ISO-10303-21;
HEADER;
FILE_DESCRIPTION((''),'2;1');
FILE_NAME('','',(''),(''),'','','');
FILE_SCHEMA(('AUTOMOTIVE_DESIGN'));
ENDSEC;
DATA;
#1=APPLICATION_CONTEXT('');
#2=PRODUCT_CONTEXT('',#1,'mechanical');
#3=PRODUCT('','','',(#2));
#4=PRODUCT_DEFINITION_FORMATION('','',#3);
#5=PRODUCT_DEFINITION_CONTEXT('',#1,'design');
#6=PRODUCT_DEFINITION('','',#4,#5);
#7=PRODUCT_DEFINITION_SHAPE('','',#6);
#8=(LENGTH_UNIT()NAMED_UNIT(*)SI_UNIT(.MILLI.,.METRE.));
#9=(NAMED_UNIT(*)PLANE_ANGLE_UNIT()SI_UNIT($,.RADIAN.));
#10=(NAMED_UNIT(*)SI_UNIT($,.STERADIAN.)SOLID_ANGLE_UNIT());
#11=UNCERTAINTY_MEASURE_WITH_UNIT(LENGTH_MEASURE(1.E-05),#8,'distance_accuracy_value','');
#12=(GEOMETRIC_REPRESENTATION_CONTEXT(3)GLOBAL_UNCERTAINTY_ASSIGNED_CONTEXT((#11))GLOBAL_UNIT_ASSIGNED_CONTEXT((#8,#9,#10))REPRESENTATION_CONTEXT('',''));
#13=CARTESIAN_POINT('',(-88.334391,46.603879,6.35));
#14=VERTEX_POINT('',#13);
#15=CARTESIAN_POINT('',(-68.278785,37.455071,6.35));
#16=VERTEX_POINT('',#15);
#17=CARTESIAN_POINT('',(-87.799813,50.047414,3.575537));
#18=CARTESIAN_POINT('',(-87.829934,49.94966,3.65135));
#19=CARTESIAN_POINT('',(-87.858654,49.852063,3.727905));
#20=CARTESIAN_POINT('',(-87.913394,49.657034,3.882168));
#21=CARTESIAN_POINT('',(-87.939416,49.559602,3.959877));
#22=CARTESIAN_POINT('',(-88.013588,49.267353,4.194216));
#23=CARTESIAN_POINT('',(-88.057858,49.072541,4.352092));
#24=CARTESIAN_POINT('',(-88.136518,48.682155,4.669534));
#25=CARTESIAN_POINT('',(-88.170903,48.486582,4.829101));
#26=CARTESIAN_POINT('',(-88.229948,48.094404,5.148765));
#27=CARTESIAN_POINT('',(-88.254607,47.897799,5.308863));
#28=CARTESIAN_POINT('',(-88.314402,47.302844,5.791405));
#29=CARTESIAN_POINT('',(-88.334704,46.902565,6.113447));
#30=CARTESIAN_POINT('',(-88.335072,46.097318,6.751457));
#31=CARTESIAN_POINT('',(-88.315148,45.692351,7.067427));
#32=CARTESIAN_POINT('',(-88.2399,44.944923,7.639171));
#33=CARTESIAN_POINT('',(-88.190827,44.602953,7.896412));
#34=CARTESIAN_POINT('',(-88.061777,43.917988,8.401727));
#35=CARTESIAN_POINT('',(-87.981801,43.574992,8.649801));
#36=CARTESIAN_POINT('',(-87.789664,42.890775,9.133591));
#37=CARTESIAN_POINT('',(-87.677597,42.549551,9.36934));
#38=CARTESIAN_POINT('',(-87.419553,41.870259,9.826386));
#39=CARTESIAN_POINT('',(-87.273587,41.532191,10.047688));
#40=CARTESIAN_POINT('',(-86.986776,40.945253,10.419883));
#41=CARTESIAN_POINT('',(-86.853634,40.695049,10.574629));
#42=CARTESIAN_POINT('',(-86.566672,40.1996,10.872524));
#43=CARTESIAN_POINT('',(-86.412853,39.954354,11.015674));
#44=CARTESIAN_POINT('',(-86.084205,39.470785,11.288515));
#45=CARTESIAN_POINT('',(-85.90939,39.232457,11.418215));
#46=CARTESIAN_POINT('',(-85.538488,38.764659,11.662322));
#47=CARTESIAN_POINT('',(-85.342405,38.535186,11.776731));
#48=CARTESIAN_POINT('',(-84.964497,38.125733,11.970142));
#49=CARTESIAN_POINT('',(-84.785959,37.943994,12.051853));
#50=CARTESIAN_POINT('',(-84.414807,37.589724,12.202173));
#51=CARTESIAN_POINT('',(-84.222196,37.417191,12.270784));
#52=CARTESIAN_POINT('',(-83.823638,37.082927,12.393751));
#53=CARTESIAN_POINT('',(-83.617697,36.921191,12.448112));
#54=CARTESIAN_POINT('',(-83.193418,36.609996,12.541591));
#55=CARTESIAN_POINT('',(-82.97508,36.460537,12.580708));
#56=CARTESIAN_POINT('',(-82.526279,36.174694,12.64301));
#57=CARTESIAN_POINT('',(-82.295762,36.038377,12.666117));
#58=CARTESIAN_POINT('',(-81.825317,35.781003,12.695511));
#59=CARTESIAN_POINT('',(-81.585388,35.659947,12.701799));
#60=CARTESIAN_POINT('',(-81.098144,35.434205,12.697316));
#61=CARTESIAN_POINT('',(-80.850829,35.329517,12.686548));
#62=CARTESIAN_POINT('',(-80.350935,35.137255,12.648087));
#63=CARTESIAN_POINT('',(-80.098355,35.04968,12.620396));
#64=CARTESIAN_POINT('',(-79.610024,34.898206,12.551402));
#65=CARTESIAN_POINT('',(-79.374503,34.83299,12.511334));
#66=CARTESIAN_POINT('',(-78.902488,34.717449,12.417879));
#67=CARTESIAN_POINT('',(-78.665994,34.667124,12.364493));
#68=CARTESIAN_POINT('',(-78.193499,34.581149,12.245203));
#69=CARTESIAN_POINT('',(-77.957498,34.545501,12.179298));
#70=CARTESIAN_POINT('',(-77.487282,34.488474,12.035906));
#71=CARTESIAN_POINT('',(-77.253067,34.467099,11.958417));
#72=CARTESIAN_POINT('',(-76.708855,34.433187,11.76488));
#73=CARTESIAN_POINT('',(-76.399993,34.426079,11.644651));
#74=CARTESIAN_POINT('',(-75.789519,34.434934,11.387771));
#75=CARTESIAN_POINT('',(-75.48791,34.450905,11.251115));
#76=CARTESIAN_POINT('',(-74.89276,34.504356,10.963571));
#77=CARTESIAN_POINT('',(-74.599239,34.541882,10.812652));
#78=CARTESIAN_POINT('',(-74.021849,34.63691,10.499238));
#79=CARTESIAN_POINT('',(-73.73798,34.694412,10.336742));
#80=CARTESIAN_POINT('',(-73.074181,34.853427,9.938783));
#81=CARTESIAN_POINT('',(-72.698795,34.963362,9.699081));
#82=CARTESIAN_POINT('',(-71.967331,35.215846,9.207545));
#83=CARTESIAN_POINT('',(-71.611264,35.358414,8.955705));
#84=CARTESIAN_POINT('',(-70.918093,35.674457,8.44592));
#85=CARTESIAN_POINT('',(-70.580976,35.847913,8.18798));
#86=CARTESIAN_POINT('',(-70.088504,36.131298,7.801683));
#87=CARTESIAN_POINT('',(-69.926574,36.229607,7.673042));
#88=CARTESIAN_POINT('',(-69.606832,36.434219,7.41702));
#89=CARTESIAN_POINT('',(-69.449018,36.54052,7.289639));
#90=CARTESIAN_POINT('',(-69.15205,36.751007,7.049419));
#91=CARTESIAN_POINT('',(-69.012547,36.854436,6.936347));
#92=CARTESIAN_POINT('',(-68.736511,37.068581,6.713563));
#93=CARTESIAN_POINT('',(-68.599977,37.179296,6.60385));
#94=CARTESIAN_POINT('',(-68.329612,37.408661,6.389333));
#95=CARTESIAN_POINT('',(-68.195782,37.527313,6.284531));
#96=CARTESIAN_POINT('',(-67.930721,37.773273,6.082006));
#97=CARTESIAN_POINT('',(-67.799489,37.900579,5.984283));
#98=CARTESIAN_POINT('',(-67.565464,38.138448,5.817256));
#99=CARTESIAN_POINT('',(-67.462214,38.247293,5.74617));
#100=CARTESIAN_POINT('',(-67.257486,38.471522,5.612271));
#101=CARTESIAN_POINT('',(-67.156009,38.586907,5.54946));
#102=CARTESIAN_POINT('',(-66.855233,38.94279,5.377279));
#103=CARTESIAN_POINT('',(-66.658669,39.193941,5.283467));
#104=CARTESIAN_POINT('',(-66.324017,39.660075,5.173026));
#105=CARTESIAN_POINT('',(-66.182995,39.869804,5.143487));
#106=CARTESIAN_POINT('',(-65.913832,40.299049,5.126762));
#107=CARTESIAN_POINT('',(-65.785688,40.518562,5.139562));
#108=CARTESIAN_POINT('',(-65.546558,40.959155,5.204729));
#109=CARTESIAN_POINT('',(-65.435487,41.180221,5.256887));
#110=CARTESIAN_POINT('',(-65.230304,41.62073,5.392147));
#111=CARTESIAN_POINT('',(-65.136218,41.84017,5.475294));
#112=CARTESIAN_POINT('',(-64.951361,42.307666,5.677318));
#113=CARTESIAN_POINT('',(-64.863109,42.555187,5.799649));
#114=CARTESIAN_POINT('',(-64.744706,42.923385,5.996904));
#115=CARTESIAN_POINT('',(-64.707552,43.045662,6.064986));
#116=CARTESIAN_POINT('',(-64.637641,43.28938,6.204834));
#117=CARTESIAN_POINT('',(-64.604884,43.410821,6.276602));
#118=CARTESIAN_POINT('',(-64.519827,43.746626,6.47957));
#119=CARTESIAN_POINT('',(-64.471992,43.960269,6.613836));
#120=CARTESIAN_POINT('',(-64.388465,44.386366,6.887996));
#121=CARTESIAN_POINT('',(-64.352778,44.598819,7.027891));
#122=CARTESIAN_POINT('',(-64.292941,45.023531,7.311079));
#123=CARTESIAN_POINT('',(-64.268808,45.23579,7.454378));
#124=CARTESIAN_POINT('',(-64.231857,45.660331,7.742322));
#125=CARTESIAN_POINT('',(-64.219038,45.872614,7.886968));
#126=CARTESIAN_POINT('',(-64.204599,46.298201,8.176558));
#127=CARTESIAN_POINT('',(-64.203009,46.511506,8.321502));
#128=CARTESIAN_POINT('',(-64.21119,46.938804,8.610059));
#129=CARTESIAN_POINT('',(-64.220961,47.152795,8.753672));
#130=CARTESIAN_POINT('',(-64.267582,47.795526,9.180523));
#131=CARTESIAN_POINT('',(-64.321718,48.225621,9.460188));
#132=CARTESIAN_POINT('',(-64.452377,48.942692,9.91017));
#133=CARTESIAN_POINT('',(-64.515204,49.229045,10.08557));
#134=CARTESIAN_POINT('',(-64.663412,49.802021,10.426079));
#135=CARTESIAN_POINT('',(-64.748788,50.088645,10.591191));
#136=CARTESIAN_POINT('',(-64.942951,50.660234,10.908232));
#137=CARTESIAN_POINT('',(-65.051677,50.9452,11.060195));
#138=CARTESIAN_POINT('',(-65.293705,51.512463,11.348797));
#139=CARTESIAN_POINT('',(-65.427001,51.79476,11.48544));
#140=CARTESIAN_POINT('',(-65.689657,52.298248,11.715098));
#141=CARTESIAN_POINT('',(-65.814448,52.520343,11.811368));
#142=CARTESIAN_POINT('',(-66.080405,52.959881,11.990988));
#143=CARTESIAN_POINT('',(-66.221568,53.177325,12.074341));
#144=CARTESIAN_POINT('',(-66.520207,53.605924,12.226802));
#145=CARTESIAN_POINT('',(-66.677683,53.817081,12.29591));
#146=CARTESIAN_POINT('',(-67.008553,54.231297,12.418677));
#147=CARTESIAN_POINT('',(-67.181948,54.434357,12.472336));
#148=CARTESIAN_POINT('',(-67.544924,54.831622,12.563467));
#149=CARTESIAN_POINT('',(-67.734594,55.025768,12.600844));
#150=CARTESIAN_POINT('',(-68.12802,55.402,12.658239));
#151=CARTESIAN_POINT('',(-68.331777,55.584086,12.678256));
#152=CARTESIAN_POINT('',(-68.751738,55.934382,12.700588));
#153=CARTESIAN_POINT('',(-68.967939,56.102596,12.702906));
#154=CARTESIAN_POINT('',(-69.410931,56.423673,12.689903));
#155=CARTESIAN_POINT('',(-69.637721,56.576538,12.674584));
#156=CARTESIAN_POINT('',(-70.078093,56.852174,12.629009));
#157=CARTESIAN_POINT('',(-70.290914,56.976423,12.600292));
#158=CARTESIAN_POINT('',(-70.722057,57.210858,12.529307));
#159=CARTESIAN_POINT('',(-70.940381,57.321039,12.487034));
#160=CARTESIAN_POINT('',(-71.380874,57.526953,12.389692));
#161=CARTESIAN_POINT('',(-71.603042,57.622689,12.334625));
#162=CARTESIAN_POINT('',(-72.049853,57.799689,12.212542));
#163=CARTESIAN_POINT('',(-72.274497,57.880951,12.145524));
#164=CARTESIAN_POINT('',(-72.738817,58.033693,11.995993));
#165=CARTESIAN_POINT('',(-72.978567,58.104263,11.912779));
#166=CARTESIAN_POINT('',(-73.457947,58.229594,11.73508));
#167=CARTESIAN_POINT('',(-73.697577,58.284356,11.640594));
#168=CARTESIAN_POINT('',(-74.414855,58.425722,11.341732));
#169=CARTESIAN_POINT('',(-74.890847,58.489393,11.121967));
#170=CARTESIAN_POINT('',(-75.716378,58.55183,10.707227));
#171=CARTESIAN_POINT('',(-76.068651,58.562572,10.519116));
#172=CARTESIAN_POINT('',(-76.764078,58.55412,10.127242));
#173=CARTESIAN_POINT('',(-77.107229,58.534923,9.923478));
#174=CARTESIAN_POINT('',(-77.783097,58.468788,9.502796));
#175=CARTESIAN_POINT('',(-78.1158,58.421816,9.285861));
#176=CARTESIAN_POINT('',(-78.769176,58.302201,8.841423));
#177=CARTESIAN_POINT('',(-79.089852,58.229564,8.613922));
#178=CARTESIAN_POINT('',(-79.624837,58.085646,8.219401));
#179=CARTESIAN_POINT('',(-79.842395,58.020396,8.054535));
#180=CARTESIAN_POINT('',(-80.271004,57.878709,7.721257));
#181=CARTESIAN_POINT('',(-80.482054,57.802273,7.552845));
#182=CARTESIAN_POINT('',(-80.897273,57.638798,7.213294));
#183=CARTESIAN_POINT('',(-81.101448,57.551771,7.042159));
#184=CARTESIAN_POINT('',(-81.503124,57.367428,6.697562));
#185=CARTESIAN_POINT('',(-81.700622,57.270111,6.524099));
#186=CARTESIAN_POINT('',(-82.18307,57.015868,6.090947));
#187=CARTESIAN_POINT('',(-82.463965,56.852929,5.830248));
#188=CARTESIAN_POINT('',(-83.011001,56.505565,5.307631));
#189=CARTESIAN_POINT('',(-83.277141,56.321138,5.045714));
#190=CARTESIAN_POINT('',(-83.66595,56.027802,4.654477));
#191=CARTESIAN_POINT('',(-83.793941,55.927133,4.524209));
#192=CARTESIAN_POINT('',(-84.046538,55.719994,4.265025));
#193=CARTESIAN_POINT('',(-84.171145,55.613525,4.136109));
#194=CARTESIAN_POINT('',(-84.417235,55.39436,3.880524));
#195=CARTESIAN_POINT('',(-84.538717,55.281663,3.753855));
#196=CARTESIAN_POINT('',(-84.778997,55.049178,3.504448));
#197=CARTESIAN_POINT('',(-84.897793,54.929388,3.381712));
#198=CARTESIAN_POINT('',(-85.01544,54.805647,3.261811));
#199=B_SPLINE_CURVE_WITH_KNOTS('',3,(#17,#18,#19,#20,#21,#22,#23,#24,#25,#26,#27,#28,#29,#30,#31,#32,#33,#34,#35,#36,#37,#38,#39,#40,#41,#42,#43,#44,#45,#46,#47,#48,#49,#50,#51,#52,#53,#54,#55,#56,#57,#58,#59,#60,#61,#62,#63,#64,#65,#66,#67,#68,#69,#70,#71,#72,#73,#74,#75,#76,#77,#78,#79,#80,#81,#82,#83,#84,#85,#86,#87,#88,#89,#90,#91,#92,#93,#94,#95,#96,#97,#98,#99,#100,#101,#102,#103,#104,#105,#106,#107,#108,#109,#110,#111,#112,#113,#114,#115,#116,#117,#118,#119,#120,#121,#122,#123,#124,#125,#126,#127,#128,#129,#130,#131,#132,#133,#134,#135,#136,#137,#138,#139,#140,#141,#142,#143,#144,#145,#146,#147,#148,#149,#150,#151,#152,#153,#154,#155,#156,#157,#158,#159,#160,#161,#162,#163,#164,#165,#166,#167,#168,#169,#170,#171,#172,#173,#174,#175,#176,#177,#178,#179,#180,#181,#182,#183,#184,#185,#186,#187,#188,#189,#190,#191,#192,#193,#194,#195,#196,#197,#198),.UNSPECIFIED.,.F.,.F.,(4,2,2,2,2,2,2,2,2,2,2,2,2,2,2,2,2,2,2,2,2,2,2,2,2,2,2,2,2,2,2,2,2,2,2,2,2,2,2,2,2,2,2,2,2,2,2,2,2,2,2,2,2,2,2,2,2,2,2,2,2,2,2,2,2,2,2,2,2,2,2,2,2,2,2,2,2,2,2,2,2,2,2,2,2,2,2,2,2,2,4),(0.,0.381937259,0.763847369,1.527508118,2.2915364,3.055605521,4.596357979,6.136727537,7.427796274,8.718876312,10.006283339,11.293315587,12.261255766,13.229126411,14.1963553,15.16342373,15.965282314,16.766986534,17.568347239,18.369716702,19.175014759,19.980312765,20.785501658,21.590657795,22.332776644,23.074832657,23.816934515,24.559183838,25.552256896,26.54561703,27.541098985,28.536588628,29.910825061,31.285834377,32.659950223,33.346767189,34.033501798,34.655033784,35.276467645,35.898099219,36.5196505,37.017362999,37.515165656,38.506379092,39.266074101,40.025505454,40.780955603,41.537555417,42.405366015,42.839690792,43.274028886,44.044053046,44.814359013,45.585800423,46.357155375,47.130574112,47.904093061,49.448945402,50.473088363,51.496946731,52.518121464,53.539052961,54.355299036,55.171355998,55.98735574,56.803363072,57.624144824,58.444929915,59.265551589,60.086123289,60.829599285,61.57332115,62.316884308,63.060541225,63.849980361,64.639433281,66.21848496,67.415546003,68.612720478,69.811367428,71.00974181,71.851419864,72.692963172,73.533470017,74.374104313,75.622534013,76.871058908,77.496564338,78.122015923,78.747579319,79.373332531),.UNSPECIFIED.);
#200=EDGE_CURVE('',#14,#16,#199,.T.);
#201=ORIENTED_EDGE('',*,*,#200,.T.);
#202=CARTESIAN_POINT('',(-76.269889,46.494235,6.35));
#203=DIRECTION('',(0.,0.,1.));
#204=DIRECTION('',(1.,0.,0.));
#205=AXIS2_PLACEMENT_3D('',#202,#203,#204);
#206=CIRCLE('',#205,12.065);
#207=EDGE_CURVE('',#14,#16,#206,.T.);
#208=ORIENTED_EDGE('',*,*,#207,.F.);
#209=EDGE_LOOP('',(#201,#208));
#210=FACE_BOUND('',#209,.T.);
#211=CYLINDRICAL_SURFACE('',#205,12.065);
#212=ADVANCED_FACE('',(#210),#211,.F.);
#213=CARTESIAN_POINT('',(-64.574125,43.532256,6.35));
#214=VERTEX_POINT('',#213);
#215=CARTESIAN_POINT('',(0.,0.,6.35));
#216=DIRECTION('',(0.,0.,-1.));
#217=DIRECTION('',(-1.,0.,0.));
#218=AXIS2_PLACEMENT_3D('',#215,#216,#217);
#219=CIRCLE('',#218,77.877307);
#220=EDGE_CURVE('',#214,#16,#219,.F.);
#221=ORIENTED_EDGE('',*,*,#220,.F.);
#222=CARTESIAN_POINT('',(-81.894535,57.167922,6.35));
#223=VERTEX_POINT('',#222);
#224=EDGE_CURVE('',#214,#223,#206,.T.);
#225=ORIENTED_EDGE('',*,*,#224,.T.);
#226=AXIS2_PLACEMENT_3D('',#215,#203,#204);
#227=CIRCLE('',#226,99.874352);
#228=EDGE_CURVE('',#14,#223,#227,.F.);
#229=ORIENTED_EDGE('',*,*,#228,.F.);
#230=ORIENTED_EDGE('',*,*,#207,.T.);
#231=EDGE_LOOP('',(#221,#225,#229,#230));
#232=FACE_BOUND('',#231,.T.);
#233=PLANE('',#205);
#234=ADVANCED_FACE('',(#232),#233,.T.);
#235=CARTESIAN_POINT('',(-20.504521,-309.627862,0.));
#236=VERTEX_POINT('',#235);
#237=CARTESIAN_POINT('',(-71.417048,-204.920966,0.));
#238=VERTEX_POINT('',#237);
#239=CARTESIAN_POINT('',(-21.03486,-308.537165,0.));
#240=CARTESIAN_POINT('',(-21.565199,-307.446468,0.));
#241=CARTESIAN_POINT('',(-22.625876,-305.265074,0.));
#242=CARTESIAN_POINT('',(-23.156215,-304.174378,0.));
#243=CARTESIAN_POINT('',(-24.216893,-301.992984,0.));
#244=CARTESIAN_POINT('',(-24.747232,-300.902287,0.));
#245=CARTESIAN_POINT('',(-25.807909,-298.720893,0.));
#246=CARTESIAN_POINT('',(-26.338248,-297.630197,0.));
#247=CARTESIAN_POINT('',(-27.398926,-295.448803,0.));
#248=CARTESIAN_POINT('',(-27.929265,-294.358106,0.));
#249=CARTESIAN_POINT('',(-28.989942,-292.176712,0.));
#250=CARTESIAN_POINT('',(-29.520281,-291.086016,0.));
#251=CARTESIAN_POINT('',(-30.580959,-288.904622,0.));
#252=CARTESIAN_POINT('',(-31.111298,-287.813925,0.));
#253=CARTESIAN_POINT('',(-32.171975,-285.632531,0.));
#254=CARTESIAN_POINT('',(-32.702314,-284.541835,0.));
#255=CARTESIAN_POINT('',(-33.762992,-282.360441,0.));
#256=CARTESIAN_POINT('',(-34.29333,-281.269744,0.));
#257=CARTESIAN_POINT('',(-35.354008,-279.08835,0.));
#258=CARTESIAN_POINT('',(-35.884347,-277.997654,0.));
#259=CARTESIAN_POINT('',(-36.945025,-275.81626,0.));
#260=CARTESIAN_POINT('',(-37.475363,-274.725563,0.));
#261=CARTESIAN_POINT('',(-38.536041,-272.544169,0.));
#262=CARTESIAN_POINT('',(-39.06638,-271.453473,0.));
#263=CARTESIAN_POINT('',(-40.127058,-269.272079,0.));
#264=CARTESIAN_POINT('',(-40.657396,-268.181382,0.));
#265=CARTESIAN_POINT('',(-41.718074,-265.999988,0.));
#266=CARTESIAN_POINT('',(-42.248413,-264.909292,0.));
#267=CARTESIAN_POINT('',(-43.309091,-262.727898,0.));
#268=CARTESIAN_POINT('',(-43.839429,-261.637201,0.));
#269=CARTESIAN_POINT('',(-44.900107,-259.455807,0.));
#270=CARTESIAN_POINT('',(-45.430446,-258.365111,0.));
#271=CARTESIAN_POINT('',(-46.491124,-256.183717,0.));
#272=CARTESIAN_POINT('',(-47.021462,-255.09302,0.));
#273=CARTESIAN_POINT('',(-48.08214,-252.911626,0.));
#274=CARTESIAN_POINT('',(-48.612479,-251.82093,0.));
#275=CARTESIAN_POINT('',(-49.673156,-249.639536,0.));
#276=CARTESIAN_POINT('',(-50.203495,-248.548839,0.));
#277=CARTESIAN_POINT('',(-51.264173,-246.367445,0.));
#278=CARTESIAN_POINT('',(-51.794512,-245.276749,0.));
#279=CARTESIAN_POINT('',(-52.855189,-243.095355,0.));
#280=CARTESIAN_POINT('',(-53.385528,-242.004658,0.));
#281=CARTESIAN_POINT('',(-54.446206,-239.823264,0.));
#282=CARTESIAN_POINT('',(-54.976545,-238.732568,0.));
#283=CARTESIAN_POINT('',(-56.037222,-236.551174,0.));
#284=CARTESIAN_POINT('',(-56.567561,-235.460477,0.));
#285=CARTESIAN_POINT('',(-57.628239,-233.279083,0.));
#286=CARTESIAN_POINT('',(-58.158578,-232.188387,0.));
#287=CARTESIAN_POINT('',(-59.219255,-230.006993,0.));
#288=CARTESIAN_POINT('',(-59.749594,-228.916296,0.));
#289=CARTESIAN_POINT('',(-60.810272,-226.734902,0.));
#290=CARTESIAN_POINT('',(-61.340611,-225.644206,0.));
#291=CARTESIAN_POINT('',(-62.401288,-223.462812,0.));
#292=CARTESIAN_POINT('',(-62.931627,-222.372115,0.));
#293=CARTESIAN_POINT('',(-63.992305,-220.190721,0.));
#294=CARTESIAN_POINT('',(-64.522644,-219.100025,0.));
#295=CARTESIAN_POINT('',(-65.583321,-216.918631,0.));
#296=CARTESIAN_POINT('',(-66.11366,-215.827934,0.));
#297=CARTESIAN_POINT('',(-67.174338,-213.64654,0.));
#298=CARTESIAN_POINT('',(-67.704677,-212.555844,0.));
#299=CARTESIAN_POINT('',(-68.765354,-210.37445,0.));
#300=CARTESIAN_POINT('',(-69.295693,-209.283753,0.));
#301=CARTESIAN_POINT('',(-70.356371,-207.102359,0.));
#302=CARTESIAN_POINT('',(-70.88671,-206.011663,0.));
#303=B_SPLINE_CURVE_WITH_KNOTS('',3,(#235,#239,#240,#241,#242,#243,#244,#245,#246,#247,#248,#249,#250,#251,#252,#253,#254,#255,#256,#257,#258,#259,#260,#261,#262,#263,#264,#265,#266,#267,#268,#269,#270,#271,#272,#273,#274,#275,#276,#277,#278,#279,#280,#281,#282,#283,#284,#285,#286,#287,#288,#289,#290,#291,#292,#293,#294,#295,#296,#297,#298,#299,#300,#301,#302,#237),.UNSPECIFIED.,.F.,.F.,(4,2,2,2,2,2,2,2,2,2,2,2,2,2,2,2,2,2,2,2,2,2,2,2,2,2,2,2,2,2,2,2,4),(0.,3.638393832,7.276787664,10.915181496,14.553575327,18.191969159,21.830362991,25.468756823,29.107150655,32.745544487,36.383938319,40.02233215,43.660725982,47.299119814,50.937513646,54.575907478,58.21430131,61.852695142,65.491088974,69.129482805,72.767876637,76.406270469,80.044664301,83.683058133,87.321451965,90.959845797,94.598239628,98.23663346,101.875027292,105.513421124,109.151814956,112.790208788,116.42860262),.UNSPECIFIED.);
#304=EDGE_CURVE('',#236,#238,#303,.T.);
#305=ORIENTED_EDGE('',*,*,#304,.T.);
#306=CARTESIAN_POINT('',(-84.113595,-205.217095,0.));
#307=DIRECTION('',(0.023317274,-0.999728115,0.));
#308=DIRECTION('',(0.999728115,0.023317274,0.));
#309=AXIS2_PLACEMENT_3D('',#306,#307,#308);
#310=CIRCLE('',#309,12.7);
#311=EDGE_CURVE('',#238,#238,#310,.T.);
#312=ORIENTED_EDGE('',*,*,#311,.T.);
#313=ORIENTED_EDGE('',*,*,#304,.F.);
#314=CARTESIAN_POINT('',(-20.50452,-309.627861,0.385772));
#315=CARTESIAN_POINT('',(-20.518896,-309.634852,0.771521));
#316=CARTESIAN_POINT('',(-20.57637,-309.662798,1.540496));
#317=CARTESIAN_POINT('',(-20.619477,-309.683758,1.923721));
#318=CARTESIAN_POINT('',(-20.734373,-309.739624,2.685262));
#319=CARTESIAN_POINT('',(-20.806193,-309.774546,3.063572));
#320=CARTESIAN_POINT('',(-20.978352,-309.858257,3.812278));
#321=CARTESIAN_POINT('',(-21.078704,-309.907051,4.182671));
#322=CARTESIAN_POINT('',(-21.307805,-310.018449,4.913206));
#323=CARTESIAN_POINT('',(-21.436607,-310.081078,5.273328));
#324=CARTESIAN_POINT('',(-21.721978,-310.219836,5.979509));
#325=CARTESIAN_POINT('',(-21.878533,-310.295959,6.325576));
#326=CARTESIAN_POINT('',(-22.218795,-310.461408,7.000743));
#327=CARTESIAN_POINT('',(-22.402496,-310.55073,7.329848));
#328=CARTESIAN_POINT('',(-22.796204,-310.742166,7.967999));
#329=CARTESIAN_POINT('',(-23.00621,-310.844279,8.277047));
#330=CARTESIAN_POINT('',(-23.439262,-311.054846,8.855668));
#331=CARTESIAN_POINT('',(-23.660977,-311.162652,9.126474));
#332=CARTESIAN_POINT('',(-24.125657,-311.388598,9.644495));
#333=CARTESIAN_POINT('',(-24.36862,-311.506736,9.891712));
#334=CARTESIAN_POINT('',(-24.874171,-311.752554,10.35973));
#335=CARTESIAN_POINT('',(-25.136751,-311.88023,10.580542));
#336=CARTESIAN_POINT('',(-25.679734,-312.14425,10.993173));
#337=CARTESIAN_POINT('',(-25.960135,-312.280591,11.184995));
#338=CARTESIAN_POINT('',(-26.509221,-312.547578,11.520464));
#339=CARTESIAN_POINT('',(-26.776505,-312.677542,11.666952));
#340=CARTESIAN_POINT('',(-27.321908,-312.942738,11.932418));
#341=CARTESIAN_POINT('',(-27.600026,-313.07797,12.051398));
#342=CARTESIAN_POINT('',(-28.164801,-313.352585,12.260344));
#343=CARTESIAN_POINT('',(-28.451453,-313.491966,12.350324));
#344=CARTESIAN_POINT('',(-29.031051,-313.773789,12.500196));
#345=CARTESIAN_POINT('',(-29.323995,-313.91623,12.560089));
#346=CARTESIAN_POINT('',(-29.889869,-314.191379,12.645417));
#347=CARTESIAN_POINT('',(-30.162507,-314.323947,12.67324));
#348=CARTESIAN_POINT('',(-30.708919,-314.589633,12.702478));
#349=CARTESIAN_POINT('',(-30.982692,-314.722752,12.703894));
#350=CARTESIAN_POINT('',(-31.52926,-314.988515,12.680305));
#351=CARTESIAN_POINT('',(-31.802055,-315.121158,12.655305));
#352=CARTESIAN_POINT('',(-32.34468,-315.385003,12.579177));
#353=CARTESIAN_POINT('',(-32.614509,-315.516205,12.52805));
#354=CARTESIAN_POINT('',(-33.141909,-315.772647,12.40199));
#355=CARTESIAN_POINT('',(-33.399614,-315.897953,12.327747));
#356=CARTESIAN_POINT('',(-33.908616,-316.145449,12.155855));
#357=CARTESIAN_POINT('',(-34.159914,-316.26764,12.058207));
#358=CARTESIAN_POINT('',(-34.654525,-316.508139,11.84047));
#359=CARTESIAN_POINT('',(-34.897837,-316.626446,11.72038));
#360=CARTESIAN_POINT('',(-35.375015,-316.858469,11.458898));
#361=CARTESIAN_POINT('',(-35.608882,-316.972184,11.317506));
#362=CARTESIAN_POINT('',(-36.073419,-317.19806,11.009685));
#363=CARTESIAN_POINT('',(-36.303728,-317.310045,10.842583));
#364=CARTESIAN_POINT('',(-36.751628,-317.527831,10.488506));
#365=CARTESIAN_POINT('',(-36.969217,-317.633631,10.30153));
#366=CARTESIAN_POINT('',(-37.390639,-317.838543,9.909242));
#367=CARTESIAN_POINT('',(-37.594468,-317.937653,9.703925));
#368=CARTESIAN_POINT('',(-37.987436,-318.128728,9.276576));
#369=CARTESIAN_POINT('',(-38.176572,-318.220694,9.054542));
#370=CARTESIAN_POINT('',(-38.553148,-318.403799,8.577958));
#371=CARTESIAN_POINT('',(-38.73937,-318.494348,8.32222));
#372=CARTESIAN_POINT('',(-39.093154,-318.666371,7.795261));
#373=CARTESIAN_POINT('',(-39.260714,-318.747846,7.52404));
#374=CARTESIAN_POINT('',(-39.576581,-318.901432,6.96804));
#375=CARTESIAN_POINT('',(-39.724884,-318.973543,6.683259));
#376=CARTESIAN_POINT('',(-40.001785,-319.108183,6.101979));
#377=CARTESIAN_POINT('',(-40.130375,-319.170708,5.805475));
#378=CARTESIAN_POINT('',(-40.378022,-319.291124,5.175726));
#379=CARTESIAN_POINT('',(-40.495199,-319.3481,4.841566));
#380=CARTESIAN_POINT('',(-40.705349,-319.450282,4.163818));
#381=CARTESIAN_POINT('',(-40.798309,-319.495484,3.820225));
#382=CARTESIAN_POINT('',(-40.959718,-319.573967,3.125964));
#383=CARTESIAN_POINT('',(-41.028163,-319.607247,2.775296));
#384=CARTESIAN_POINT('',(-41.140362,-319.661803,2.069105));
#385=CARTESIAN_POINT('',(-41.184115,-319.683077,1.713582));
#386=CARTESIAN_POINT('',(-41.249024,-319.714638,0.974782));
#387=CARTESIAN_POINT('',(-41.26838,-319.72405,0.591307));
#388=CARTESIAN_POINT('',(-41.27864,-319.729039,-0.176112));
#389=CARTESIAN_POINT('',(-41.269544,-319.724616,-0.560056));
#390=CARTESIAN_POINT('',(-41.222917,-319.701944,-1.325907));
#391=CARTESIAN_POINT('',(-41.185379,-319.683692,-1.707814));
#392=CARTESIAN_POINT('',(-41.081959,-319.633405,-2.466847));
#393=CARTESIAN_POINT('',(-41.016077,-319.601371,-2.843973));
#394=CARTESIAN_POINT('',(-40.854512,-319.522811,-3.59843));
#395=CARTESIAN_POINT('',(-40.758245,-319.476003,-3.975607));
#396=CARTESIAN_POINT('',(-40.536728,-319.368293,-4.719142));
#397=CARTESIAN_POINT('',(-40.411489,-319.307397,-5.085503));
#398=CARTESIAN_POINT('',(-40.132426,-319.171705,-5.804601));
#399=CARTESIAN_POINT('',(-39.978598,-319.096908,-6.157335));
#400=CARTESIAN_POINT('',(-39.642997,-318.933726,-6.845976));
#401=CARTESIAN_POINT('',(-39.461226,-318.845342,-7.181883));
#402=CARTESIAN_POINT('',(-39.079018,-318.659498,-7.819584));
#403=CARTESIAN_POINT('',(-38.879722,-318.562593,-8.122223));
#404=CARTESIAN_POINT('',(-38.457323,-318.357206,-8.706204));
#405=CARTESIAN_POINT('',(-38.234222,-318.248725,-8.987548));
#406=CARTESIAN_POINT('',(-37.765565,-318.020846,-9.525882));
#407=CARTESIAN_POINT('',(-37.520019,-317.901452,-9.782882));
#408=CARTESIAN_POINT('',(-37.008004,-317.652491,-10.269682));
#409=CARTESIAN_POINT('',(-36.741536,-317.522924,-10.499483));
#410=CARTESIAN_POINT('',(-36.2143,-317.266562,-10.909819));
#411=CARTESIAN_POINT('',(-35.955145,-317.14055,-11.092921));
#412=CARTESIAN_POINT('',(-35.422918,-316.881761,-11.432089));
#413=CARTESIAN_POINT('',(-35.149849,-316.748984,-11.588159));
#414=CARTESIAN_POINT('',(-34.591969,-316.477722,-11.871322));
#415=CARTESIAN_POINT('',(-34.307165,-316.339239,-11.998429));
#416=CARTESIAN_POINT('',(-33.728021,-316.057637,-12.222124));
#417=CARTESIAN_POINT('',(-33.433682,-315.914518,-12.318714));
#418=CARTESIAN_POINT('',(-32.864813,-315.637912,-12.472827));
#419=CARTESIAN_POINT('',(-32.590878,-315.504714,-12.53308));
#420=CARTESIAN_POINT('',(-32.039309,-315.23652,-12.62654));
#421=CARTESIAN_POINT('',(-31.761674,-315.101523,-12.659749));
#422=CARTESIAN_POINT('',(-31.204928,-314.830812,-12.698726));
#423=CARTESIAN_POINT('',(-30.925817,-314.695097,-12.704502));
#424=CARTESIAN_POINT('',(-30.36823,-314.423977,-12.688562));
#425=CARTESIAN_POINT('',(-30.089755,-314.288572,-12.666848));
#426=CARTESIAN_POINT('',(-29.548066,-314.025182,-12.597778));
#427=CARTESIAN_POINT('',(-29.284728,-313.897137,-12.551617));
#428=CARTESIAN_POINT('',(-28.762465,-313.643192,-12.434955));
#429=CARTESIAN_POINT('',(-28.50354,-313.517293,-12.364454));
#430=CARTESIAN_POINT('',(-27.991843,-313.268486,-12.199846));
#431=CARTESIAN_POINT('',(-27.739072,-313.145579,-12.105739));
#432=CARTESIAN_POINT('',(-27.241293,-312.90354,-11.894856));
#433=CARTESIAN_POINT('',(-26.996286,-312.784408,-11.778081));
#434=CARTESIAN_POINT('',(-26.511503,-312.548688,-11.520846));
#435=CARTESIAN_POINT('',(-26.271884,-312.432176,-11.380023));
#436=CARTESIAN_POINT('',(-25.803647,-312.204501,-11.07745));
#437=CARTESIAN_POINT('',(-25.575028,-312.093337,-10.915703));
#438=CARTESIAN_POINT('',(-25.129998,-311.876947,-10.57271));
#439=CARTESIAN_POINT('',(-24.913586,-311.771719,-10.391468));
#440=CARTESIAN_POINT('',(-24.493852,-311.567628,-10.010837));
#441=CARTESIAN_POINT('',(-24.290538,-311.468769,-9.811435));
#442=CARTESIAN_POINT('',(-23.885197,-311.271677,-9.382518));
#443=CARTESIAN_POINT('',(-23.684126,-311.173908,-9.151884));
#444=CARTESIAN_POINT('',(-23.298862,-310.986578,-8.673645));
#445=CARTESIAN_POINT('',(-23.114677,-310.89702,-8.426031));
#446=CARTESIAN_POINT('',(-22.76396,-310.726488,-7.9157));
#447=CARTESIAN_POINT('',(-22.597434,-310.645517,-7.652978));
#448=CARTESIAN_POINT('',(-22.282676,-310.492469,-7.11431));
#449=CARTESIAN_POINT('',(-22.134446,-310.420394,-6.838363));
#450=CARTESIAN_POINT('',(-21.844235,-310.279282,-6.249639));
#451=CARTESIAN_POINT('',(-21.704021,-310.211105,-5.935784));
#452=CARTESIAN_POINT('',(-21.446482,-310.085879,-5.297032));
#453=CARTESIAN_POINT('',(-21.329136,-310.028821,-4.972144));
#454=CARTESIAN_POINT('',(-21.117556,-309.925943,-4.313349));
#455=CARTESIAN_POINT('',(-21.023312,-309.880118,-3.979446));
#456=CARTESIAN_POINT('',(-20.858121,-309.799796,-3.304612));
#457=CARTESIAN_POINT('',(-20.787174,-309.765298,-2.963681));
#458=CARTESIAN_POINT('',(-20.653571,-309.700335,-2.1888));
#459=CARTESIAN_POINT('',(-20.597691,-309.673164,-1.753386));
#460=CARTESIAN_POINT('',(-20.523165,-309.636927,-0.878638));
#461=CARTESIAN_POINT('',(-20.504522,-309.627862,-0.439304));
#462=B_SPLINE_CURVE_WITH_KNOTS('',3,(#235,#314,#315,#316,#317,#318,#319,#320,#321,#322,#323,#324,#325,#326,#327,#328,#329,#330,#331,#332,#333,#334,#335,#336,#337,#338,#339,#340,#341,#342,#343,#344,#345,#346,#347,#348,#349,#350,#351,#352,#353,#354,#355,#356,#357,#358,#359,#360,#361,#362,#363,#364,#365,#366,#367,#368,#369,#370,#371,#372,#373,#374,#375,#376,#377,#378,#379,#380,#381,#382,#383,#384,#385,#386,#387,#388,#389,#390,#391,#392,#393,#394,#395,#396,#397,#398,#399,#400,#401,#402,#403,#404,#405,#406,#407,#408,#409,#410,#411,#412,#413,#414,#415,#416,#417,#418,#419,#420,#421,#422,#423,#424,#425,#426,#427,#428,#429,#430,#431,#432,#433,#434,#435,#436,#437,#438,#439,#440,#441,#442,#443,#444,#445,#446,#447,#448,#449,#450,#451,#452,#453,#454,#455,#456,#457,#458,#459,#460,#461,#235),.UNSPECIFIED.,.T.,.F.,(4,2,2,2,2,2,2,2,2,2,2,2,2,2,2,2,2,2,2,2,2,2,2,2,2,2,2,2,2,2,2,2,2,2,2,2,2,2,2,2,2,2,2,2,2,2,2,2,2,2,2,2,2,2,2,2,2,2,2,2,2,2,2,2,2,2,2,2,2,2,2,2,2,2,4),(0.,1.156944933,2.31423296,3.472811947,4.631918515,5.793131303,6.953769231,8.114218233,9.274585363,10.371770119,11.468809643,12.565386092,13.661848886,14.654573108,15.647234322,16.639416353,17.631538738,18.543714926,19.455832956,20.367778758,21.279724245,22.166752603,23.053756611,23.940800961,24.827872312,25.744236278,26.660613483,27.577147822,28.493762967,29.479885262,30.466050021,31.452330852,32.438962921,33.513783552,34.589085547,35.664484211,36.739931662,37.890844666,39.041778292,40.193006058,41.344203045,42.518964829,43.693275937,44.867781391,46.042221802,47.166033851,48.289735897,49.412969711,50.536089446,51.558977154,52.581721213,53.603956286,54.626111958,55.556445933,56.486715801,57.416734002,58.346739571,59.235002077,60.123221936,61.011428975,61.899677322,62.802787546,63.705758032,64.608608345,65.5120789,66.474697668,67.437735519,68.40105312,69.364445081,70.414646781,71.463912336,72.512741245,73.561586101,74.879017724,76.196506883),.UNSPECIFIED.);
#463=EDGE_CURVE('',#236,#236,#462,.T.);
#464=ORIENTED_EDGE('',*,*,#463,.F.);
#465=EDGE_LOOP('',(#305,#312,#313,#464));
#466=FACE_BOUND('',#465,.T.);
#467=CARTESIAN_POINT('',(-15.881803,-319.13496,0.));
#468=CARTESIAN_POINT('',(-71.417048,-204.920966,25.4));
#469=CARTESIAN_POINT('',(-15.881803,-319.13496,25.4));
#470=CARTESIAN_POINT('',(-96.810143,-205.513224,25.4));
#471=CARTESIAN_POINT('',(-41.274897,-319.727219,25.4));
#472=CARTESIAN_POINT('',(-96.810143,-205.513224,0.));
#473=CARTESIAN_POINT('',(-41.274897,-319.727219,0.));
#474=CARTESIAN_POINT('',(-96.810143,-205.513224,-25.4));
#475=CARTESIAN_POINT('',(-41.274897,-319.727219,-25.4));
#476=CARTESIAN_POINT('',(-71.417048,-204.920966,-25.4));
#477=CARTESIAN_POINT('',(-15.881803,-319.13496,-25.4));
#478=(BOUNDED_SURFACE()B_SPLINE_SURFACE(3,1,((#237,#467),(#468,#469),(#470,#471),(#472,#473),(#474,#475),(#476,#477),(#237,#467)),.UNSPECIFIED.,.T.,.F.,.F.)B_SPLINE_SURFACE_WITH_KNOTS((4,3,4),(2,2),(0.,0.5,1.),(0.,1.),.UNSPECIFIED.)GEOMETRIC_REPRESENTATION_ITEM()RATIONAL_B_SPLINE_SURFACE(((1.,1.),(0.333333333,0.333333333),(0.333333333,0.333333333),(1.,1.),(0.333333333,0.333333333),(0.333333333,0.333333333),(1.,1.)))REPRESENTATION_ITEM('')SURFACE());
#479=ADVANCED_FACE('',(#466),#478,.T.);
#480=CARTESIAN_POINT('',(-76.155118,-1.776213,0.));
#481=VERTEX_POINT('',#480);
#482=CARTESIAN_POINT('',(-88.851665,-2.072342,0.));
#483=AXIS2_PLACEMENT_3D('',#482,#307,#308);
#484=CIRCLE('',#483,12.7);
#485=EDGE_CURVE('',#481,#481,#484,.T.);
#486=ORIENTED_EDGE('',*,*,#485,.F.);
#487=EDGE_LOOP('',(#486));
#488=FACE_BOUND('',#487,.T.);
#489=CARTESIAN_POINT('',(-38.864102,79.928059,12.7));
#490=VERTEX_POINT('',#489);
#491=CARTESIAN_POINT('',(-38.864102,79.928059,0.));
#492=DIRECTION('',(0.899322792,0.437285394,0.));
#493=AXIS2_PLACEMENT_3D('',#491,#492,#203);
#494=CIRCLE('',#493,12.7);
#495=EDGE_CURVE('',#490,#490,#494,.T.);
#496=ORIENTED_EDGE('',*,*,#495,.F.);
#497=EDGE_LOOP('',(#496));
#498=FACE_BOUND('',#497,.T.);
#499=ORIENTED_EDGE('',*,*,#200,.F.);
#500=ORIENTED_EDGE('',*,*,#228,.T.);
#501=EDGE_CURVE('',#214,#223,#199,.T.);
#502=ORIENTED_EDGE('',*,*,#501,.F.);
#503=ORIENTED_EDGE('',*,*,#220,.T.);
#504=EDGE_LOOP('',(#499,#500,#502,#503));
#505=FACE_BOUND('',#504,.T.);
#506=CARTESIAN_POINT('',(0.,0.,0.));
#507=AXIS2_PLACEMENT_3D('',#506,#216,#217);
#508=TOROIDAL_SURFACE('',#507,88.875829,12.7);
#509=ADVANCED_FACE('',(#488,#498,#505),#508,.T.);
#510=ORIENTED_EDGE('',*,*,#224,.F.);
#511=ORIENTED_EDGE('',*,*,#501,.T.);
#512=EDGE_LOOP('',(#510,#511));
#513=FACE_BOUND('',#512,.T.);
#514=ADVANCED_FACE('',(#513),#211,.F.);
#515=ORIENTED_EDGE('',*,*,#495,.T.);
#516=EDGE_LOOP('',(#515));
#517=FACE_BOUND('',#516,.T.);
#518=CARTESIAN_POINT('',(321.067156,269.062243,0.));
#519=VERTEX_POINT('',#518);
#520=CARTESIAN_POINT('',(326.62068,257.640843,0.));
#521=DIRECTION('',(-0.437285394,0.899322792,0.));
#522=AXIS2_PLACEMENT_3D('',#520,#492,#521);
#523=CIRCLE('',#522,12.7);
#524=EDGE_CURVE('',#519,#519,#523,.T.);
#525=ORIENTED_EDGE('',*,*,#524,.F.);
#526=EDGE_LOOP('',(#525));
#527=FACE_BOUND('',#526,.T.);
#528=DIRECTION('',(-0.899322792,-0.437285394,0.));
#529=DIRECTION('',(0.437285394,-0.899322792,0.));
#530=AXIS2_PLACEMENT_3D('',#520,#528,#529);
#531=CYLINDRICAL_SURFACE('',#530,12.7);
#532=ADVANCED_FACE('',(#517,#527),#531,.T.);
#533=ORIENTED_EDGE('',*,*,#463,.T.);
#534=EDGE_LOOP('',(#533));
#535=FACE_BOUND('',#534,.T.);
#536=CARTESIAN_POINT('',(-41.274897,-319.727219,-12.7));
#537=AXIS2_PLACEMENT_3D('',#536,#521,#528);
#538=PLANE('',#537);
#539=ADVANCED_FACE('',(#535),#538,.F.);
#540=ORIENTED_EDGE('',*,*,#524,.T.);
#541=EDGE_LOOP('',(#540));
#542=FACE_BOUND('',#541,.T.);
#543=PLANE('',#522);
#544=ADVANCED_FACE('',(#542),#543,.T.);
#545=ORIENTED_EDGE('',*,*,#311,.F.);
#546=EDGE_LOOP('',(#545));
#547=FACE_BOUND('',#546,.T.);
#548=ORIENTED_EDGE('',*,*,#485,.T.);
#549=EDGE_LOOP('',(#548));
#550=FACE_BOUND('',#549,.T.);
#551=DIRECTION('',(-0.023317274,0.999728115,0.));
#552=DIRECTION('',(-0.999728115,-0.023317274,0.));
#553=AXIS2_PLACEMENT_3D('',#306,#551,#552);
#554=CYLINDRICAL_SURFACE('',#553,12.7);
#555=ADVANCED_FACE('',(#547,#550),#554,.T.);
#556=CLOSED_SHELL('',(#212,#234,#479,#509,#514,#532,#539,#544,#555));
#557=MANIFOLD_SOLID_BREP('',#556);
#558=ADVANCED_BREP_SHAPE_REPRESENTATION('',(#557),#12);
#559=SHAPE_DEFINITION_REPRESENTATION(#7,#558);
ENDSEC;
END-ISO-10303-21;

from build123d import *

# Parameters (mm, degrees)
SKETCH5_R               = 12.7
SKETCH6_R               = 12.7
BOSS_EXTRUDE3_DEPTH     = 406.4
SKETCH7_R               = 12.7
BOSS_EXTRUDE4_DEPTH     = 203.2
SKETCH8_R               = 12.065
CUT_EXTRUDE1_DEPTH      = 6.35
SKETCH9_R               = 12.7
CUT_EXTRUDE2_DEPTH      = 462.222817168
CUT_EXTRUDE2_DEPTH_BACK = 462.222817168


with BuildPart() as part:
    # Sweep1: sweep along a path in Sketch4
    with BuildLine(Plane.XY) as sweep1_path:
        ThreePointArc((-38.874671546, 79.949796199), (-75.907697444, 46.273442371), (-88.87582946, -2.072905643))
    # Sketch5 → Sweep1 (sweep)
    with BuildSketch(Plane(origin=(0, 0, 0), x_dir=(1, 0, 0), z_dir=(0, 1, 0))):
        with Locations((-88.87582946, 0)):
            Circle(SKETCH5_R)
    sweep(path=sweep1_path.line)

    # Sketch6 → Boss-Extrude3 (add)
    with BuildSketch(Plane(origin=(0, 0, 0), x_dir=(0, 0, -1), z_dir=(0.8993227918843839, 0.43728539421901275, 0))):
        with Locations(Location((0, 88.87582946, 0), (0, 0, 180))):
            Circle(SKETCH6_R)
    extrude(amount=BOSS_EXTRUDE3_DEPTH)

    # Sketch7 → Boss-Extrude4 (add)
    with BuildSketch(Plane(origin=(0, 0, 0), x_dir=(-0.9997281154099812, -0.023317273828803834, 0), z_dir=(0.023317273828803834, -0.9997281154099812, 0))):
        with Locations((88.87582946, 0)):
            Circle(SKETCH7_R)
    extrude(amount=BOSS_EXTRUDE4_DEPTH)

    # Sketch8 → Cut-Extrude1 (cut)
    with BuildSketch(Plane.XY.offset(12.7)):
        with Locations((-76.269889492, 46.494235168)):
            Circle(SKETCH8_R)
    extrude(amount=-CUT_EXTRUDE1_DEPTH, mode=Mode.SUBTRACT)

    # Sweep2: sweep along a path in Sketch11
    with BuildLine(Plane.XY) as sweep2_path:
        Line((-84.113595449, -205.217095104), (-28.578350384, -319.431089673))
    # Sketch9 → Sweep2 (sweep)
    with BuildSketch(Plane(origin=(4.738070042, -203.144753051, 0), x_dir=(-0.9997281154099812, -0.023317273828803834, 0), z_dir=(0.023317273828803834, -0.9997281154099812, 0))):
        with Locations((88.87582946, 0)):
            Circle(SKETCH9_R)
    sweep(path=sweep2_path.line)

    # Sketch16 → Cut-Extrude2 (cut, two sides: drawn at the far end of the back side and taken through both)
    with BuildSketch(Plane.XY.offset(-CUT_EXTRUDE2_DEPTH_BACK)):
        Polygon((-41.274897449, -319.727219051), (-20.504520989, -309.627861689), (-15.881803318, -319.134960295), align=None)
    extrude(amount=CUT_EXTRUDE2_DEPTH + CUT_EXTRUDE2_DEPTH_BACK, mode=Mode.SUBTRACT)


solid = part.part
